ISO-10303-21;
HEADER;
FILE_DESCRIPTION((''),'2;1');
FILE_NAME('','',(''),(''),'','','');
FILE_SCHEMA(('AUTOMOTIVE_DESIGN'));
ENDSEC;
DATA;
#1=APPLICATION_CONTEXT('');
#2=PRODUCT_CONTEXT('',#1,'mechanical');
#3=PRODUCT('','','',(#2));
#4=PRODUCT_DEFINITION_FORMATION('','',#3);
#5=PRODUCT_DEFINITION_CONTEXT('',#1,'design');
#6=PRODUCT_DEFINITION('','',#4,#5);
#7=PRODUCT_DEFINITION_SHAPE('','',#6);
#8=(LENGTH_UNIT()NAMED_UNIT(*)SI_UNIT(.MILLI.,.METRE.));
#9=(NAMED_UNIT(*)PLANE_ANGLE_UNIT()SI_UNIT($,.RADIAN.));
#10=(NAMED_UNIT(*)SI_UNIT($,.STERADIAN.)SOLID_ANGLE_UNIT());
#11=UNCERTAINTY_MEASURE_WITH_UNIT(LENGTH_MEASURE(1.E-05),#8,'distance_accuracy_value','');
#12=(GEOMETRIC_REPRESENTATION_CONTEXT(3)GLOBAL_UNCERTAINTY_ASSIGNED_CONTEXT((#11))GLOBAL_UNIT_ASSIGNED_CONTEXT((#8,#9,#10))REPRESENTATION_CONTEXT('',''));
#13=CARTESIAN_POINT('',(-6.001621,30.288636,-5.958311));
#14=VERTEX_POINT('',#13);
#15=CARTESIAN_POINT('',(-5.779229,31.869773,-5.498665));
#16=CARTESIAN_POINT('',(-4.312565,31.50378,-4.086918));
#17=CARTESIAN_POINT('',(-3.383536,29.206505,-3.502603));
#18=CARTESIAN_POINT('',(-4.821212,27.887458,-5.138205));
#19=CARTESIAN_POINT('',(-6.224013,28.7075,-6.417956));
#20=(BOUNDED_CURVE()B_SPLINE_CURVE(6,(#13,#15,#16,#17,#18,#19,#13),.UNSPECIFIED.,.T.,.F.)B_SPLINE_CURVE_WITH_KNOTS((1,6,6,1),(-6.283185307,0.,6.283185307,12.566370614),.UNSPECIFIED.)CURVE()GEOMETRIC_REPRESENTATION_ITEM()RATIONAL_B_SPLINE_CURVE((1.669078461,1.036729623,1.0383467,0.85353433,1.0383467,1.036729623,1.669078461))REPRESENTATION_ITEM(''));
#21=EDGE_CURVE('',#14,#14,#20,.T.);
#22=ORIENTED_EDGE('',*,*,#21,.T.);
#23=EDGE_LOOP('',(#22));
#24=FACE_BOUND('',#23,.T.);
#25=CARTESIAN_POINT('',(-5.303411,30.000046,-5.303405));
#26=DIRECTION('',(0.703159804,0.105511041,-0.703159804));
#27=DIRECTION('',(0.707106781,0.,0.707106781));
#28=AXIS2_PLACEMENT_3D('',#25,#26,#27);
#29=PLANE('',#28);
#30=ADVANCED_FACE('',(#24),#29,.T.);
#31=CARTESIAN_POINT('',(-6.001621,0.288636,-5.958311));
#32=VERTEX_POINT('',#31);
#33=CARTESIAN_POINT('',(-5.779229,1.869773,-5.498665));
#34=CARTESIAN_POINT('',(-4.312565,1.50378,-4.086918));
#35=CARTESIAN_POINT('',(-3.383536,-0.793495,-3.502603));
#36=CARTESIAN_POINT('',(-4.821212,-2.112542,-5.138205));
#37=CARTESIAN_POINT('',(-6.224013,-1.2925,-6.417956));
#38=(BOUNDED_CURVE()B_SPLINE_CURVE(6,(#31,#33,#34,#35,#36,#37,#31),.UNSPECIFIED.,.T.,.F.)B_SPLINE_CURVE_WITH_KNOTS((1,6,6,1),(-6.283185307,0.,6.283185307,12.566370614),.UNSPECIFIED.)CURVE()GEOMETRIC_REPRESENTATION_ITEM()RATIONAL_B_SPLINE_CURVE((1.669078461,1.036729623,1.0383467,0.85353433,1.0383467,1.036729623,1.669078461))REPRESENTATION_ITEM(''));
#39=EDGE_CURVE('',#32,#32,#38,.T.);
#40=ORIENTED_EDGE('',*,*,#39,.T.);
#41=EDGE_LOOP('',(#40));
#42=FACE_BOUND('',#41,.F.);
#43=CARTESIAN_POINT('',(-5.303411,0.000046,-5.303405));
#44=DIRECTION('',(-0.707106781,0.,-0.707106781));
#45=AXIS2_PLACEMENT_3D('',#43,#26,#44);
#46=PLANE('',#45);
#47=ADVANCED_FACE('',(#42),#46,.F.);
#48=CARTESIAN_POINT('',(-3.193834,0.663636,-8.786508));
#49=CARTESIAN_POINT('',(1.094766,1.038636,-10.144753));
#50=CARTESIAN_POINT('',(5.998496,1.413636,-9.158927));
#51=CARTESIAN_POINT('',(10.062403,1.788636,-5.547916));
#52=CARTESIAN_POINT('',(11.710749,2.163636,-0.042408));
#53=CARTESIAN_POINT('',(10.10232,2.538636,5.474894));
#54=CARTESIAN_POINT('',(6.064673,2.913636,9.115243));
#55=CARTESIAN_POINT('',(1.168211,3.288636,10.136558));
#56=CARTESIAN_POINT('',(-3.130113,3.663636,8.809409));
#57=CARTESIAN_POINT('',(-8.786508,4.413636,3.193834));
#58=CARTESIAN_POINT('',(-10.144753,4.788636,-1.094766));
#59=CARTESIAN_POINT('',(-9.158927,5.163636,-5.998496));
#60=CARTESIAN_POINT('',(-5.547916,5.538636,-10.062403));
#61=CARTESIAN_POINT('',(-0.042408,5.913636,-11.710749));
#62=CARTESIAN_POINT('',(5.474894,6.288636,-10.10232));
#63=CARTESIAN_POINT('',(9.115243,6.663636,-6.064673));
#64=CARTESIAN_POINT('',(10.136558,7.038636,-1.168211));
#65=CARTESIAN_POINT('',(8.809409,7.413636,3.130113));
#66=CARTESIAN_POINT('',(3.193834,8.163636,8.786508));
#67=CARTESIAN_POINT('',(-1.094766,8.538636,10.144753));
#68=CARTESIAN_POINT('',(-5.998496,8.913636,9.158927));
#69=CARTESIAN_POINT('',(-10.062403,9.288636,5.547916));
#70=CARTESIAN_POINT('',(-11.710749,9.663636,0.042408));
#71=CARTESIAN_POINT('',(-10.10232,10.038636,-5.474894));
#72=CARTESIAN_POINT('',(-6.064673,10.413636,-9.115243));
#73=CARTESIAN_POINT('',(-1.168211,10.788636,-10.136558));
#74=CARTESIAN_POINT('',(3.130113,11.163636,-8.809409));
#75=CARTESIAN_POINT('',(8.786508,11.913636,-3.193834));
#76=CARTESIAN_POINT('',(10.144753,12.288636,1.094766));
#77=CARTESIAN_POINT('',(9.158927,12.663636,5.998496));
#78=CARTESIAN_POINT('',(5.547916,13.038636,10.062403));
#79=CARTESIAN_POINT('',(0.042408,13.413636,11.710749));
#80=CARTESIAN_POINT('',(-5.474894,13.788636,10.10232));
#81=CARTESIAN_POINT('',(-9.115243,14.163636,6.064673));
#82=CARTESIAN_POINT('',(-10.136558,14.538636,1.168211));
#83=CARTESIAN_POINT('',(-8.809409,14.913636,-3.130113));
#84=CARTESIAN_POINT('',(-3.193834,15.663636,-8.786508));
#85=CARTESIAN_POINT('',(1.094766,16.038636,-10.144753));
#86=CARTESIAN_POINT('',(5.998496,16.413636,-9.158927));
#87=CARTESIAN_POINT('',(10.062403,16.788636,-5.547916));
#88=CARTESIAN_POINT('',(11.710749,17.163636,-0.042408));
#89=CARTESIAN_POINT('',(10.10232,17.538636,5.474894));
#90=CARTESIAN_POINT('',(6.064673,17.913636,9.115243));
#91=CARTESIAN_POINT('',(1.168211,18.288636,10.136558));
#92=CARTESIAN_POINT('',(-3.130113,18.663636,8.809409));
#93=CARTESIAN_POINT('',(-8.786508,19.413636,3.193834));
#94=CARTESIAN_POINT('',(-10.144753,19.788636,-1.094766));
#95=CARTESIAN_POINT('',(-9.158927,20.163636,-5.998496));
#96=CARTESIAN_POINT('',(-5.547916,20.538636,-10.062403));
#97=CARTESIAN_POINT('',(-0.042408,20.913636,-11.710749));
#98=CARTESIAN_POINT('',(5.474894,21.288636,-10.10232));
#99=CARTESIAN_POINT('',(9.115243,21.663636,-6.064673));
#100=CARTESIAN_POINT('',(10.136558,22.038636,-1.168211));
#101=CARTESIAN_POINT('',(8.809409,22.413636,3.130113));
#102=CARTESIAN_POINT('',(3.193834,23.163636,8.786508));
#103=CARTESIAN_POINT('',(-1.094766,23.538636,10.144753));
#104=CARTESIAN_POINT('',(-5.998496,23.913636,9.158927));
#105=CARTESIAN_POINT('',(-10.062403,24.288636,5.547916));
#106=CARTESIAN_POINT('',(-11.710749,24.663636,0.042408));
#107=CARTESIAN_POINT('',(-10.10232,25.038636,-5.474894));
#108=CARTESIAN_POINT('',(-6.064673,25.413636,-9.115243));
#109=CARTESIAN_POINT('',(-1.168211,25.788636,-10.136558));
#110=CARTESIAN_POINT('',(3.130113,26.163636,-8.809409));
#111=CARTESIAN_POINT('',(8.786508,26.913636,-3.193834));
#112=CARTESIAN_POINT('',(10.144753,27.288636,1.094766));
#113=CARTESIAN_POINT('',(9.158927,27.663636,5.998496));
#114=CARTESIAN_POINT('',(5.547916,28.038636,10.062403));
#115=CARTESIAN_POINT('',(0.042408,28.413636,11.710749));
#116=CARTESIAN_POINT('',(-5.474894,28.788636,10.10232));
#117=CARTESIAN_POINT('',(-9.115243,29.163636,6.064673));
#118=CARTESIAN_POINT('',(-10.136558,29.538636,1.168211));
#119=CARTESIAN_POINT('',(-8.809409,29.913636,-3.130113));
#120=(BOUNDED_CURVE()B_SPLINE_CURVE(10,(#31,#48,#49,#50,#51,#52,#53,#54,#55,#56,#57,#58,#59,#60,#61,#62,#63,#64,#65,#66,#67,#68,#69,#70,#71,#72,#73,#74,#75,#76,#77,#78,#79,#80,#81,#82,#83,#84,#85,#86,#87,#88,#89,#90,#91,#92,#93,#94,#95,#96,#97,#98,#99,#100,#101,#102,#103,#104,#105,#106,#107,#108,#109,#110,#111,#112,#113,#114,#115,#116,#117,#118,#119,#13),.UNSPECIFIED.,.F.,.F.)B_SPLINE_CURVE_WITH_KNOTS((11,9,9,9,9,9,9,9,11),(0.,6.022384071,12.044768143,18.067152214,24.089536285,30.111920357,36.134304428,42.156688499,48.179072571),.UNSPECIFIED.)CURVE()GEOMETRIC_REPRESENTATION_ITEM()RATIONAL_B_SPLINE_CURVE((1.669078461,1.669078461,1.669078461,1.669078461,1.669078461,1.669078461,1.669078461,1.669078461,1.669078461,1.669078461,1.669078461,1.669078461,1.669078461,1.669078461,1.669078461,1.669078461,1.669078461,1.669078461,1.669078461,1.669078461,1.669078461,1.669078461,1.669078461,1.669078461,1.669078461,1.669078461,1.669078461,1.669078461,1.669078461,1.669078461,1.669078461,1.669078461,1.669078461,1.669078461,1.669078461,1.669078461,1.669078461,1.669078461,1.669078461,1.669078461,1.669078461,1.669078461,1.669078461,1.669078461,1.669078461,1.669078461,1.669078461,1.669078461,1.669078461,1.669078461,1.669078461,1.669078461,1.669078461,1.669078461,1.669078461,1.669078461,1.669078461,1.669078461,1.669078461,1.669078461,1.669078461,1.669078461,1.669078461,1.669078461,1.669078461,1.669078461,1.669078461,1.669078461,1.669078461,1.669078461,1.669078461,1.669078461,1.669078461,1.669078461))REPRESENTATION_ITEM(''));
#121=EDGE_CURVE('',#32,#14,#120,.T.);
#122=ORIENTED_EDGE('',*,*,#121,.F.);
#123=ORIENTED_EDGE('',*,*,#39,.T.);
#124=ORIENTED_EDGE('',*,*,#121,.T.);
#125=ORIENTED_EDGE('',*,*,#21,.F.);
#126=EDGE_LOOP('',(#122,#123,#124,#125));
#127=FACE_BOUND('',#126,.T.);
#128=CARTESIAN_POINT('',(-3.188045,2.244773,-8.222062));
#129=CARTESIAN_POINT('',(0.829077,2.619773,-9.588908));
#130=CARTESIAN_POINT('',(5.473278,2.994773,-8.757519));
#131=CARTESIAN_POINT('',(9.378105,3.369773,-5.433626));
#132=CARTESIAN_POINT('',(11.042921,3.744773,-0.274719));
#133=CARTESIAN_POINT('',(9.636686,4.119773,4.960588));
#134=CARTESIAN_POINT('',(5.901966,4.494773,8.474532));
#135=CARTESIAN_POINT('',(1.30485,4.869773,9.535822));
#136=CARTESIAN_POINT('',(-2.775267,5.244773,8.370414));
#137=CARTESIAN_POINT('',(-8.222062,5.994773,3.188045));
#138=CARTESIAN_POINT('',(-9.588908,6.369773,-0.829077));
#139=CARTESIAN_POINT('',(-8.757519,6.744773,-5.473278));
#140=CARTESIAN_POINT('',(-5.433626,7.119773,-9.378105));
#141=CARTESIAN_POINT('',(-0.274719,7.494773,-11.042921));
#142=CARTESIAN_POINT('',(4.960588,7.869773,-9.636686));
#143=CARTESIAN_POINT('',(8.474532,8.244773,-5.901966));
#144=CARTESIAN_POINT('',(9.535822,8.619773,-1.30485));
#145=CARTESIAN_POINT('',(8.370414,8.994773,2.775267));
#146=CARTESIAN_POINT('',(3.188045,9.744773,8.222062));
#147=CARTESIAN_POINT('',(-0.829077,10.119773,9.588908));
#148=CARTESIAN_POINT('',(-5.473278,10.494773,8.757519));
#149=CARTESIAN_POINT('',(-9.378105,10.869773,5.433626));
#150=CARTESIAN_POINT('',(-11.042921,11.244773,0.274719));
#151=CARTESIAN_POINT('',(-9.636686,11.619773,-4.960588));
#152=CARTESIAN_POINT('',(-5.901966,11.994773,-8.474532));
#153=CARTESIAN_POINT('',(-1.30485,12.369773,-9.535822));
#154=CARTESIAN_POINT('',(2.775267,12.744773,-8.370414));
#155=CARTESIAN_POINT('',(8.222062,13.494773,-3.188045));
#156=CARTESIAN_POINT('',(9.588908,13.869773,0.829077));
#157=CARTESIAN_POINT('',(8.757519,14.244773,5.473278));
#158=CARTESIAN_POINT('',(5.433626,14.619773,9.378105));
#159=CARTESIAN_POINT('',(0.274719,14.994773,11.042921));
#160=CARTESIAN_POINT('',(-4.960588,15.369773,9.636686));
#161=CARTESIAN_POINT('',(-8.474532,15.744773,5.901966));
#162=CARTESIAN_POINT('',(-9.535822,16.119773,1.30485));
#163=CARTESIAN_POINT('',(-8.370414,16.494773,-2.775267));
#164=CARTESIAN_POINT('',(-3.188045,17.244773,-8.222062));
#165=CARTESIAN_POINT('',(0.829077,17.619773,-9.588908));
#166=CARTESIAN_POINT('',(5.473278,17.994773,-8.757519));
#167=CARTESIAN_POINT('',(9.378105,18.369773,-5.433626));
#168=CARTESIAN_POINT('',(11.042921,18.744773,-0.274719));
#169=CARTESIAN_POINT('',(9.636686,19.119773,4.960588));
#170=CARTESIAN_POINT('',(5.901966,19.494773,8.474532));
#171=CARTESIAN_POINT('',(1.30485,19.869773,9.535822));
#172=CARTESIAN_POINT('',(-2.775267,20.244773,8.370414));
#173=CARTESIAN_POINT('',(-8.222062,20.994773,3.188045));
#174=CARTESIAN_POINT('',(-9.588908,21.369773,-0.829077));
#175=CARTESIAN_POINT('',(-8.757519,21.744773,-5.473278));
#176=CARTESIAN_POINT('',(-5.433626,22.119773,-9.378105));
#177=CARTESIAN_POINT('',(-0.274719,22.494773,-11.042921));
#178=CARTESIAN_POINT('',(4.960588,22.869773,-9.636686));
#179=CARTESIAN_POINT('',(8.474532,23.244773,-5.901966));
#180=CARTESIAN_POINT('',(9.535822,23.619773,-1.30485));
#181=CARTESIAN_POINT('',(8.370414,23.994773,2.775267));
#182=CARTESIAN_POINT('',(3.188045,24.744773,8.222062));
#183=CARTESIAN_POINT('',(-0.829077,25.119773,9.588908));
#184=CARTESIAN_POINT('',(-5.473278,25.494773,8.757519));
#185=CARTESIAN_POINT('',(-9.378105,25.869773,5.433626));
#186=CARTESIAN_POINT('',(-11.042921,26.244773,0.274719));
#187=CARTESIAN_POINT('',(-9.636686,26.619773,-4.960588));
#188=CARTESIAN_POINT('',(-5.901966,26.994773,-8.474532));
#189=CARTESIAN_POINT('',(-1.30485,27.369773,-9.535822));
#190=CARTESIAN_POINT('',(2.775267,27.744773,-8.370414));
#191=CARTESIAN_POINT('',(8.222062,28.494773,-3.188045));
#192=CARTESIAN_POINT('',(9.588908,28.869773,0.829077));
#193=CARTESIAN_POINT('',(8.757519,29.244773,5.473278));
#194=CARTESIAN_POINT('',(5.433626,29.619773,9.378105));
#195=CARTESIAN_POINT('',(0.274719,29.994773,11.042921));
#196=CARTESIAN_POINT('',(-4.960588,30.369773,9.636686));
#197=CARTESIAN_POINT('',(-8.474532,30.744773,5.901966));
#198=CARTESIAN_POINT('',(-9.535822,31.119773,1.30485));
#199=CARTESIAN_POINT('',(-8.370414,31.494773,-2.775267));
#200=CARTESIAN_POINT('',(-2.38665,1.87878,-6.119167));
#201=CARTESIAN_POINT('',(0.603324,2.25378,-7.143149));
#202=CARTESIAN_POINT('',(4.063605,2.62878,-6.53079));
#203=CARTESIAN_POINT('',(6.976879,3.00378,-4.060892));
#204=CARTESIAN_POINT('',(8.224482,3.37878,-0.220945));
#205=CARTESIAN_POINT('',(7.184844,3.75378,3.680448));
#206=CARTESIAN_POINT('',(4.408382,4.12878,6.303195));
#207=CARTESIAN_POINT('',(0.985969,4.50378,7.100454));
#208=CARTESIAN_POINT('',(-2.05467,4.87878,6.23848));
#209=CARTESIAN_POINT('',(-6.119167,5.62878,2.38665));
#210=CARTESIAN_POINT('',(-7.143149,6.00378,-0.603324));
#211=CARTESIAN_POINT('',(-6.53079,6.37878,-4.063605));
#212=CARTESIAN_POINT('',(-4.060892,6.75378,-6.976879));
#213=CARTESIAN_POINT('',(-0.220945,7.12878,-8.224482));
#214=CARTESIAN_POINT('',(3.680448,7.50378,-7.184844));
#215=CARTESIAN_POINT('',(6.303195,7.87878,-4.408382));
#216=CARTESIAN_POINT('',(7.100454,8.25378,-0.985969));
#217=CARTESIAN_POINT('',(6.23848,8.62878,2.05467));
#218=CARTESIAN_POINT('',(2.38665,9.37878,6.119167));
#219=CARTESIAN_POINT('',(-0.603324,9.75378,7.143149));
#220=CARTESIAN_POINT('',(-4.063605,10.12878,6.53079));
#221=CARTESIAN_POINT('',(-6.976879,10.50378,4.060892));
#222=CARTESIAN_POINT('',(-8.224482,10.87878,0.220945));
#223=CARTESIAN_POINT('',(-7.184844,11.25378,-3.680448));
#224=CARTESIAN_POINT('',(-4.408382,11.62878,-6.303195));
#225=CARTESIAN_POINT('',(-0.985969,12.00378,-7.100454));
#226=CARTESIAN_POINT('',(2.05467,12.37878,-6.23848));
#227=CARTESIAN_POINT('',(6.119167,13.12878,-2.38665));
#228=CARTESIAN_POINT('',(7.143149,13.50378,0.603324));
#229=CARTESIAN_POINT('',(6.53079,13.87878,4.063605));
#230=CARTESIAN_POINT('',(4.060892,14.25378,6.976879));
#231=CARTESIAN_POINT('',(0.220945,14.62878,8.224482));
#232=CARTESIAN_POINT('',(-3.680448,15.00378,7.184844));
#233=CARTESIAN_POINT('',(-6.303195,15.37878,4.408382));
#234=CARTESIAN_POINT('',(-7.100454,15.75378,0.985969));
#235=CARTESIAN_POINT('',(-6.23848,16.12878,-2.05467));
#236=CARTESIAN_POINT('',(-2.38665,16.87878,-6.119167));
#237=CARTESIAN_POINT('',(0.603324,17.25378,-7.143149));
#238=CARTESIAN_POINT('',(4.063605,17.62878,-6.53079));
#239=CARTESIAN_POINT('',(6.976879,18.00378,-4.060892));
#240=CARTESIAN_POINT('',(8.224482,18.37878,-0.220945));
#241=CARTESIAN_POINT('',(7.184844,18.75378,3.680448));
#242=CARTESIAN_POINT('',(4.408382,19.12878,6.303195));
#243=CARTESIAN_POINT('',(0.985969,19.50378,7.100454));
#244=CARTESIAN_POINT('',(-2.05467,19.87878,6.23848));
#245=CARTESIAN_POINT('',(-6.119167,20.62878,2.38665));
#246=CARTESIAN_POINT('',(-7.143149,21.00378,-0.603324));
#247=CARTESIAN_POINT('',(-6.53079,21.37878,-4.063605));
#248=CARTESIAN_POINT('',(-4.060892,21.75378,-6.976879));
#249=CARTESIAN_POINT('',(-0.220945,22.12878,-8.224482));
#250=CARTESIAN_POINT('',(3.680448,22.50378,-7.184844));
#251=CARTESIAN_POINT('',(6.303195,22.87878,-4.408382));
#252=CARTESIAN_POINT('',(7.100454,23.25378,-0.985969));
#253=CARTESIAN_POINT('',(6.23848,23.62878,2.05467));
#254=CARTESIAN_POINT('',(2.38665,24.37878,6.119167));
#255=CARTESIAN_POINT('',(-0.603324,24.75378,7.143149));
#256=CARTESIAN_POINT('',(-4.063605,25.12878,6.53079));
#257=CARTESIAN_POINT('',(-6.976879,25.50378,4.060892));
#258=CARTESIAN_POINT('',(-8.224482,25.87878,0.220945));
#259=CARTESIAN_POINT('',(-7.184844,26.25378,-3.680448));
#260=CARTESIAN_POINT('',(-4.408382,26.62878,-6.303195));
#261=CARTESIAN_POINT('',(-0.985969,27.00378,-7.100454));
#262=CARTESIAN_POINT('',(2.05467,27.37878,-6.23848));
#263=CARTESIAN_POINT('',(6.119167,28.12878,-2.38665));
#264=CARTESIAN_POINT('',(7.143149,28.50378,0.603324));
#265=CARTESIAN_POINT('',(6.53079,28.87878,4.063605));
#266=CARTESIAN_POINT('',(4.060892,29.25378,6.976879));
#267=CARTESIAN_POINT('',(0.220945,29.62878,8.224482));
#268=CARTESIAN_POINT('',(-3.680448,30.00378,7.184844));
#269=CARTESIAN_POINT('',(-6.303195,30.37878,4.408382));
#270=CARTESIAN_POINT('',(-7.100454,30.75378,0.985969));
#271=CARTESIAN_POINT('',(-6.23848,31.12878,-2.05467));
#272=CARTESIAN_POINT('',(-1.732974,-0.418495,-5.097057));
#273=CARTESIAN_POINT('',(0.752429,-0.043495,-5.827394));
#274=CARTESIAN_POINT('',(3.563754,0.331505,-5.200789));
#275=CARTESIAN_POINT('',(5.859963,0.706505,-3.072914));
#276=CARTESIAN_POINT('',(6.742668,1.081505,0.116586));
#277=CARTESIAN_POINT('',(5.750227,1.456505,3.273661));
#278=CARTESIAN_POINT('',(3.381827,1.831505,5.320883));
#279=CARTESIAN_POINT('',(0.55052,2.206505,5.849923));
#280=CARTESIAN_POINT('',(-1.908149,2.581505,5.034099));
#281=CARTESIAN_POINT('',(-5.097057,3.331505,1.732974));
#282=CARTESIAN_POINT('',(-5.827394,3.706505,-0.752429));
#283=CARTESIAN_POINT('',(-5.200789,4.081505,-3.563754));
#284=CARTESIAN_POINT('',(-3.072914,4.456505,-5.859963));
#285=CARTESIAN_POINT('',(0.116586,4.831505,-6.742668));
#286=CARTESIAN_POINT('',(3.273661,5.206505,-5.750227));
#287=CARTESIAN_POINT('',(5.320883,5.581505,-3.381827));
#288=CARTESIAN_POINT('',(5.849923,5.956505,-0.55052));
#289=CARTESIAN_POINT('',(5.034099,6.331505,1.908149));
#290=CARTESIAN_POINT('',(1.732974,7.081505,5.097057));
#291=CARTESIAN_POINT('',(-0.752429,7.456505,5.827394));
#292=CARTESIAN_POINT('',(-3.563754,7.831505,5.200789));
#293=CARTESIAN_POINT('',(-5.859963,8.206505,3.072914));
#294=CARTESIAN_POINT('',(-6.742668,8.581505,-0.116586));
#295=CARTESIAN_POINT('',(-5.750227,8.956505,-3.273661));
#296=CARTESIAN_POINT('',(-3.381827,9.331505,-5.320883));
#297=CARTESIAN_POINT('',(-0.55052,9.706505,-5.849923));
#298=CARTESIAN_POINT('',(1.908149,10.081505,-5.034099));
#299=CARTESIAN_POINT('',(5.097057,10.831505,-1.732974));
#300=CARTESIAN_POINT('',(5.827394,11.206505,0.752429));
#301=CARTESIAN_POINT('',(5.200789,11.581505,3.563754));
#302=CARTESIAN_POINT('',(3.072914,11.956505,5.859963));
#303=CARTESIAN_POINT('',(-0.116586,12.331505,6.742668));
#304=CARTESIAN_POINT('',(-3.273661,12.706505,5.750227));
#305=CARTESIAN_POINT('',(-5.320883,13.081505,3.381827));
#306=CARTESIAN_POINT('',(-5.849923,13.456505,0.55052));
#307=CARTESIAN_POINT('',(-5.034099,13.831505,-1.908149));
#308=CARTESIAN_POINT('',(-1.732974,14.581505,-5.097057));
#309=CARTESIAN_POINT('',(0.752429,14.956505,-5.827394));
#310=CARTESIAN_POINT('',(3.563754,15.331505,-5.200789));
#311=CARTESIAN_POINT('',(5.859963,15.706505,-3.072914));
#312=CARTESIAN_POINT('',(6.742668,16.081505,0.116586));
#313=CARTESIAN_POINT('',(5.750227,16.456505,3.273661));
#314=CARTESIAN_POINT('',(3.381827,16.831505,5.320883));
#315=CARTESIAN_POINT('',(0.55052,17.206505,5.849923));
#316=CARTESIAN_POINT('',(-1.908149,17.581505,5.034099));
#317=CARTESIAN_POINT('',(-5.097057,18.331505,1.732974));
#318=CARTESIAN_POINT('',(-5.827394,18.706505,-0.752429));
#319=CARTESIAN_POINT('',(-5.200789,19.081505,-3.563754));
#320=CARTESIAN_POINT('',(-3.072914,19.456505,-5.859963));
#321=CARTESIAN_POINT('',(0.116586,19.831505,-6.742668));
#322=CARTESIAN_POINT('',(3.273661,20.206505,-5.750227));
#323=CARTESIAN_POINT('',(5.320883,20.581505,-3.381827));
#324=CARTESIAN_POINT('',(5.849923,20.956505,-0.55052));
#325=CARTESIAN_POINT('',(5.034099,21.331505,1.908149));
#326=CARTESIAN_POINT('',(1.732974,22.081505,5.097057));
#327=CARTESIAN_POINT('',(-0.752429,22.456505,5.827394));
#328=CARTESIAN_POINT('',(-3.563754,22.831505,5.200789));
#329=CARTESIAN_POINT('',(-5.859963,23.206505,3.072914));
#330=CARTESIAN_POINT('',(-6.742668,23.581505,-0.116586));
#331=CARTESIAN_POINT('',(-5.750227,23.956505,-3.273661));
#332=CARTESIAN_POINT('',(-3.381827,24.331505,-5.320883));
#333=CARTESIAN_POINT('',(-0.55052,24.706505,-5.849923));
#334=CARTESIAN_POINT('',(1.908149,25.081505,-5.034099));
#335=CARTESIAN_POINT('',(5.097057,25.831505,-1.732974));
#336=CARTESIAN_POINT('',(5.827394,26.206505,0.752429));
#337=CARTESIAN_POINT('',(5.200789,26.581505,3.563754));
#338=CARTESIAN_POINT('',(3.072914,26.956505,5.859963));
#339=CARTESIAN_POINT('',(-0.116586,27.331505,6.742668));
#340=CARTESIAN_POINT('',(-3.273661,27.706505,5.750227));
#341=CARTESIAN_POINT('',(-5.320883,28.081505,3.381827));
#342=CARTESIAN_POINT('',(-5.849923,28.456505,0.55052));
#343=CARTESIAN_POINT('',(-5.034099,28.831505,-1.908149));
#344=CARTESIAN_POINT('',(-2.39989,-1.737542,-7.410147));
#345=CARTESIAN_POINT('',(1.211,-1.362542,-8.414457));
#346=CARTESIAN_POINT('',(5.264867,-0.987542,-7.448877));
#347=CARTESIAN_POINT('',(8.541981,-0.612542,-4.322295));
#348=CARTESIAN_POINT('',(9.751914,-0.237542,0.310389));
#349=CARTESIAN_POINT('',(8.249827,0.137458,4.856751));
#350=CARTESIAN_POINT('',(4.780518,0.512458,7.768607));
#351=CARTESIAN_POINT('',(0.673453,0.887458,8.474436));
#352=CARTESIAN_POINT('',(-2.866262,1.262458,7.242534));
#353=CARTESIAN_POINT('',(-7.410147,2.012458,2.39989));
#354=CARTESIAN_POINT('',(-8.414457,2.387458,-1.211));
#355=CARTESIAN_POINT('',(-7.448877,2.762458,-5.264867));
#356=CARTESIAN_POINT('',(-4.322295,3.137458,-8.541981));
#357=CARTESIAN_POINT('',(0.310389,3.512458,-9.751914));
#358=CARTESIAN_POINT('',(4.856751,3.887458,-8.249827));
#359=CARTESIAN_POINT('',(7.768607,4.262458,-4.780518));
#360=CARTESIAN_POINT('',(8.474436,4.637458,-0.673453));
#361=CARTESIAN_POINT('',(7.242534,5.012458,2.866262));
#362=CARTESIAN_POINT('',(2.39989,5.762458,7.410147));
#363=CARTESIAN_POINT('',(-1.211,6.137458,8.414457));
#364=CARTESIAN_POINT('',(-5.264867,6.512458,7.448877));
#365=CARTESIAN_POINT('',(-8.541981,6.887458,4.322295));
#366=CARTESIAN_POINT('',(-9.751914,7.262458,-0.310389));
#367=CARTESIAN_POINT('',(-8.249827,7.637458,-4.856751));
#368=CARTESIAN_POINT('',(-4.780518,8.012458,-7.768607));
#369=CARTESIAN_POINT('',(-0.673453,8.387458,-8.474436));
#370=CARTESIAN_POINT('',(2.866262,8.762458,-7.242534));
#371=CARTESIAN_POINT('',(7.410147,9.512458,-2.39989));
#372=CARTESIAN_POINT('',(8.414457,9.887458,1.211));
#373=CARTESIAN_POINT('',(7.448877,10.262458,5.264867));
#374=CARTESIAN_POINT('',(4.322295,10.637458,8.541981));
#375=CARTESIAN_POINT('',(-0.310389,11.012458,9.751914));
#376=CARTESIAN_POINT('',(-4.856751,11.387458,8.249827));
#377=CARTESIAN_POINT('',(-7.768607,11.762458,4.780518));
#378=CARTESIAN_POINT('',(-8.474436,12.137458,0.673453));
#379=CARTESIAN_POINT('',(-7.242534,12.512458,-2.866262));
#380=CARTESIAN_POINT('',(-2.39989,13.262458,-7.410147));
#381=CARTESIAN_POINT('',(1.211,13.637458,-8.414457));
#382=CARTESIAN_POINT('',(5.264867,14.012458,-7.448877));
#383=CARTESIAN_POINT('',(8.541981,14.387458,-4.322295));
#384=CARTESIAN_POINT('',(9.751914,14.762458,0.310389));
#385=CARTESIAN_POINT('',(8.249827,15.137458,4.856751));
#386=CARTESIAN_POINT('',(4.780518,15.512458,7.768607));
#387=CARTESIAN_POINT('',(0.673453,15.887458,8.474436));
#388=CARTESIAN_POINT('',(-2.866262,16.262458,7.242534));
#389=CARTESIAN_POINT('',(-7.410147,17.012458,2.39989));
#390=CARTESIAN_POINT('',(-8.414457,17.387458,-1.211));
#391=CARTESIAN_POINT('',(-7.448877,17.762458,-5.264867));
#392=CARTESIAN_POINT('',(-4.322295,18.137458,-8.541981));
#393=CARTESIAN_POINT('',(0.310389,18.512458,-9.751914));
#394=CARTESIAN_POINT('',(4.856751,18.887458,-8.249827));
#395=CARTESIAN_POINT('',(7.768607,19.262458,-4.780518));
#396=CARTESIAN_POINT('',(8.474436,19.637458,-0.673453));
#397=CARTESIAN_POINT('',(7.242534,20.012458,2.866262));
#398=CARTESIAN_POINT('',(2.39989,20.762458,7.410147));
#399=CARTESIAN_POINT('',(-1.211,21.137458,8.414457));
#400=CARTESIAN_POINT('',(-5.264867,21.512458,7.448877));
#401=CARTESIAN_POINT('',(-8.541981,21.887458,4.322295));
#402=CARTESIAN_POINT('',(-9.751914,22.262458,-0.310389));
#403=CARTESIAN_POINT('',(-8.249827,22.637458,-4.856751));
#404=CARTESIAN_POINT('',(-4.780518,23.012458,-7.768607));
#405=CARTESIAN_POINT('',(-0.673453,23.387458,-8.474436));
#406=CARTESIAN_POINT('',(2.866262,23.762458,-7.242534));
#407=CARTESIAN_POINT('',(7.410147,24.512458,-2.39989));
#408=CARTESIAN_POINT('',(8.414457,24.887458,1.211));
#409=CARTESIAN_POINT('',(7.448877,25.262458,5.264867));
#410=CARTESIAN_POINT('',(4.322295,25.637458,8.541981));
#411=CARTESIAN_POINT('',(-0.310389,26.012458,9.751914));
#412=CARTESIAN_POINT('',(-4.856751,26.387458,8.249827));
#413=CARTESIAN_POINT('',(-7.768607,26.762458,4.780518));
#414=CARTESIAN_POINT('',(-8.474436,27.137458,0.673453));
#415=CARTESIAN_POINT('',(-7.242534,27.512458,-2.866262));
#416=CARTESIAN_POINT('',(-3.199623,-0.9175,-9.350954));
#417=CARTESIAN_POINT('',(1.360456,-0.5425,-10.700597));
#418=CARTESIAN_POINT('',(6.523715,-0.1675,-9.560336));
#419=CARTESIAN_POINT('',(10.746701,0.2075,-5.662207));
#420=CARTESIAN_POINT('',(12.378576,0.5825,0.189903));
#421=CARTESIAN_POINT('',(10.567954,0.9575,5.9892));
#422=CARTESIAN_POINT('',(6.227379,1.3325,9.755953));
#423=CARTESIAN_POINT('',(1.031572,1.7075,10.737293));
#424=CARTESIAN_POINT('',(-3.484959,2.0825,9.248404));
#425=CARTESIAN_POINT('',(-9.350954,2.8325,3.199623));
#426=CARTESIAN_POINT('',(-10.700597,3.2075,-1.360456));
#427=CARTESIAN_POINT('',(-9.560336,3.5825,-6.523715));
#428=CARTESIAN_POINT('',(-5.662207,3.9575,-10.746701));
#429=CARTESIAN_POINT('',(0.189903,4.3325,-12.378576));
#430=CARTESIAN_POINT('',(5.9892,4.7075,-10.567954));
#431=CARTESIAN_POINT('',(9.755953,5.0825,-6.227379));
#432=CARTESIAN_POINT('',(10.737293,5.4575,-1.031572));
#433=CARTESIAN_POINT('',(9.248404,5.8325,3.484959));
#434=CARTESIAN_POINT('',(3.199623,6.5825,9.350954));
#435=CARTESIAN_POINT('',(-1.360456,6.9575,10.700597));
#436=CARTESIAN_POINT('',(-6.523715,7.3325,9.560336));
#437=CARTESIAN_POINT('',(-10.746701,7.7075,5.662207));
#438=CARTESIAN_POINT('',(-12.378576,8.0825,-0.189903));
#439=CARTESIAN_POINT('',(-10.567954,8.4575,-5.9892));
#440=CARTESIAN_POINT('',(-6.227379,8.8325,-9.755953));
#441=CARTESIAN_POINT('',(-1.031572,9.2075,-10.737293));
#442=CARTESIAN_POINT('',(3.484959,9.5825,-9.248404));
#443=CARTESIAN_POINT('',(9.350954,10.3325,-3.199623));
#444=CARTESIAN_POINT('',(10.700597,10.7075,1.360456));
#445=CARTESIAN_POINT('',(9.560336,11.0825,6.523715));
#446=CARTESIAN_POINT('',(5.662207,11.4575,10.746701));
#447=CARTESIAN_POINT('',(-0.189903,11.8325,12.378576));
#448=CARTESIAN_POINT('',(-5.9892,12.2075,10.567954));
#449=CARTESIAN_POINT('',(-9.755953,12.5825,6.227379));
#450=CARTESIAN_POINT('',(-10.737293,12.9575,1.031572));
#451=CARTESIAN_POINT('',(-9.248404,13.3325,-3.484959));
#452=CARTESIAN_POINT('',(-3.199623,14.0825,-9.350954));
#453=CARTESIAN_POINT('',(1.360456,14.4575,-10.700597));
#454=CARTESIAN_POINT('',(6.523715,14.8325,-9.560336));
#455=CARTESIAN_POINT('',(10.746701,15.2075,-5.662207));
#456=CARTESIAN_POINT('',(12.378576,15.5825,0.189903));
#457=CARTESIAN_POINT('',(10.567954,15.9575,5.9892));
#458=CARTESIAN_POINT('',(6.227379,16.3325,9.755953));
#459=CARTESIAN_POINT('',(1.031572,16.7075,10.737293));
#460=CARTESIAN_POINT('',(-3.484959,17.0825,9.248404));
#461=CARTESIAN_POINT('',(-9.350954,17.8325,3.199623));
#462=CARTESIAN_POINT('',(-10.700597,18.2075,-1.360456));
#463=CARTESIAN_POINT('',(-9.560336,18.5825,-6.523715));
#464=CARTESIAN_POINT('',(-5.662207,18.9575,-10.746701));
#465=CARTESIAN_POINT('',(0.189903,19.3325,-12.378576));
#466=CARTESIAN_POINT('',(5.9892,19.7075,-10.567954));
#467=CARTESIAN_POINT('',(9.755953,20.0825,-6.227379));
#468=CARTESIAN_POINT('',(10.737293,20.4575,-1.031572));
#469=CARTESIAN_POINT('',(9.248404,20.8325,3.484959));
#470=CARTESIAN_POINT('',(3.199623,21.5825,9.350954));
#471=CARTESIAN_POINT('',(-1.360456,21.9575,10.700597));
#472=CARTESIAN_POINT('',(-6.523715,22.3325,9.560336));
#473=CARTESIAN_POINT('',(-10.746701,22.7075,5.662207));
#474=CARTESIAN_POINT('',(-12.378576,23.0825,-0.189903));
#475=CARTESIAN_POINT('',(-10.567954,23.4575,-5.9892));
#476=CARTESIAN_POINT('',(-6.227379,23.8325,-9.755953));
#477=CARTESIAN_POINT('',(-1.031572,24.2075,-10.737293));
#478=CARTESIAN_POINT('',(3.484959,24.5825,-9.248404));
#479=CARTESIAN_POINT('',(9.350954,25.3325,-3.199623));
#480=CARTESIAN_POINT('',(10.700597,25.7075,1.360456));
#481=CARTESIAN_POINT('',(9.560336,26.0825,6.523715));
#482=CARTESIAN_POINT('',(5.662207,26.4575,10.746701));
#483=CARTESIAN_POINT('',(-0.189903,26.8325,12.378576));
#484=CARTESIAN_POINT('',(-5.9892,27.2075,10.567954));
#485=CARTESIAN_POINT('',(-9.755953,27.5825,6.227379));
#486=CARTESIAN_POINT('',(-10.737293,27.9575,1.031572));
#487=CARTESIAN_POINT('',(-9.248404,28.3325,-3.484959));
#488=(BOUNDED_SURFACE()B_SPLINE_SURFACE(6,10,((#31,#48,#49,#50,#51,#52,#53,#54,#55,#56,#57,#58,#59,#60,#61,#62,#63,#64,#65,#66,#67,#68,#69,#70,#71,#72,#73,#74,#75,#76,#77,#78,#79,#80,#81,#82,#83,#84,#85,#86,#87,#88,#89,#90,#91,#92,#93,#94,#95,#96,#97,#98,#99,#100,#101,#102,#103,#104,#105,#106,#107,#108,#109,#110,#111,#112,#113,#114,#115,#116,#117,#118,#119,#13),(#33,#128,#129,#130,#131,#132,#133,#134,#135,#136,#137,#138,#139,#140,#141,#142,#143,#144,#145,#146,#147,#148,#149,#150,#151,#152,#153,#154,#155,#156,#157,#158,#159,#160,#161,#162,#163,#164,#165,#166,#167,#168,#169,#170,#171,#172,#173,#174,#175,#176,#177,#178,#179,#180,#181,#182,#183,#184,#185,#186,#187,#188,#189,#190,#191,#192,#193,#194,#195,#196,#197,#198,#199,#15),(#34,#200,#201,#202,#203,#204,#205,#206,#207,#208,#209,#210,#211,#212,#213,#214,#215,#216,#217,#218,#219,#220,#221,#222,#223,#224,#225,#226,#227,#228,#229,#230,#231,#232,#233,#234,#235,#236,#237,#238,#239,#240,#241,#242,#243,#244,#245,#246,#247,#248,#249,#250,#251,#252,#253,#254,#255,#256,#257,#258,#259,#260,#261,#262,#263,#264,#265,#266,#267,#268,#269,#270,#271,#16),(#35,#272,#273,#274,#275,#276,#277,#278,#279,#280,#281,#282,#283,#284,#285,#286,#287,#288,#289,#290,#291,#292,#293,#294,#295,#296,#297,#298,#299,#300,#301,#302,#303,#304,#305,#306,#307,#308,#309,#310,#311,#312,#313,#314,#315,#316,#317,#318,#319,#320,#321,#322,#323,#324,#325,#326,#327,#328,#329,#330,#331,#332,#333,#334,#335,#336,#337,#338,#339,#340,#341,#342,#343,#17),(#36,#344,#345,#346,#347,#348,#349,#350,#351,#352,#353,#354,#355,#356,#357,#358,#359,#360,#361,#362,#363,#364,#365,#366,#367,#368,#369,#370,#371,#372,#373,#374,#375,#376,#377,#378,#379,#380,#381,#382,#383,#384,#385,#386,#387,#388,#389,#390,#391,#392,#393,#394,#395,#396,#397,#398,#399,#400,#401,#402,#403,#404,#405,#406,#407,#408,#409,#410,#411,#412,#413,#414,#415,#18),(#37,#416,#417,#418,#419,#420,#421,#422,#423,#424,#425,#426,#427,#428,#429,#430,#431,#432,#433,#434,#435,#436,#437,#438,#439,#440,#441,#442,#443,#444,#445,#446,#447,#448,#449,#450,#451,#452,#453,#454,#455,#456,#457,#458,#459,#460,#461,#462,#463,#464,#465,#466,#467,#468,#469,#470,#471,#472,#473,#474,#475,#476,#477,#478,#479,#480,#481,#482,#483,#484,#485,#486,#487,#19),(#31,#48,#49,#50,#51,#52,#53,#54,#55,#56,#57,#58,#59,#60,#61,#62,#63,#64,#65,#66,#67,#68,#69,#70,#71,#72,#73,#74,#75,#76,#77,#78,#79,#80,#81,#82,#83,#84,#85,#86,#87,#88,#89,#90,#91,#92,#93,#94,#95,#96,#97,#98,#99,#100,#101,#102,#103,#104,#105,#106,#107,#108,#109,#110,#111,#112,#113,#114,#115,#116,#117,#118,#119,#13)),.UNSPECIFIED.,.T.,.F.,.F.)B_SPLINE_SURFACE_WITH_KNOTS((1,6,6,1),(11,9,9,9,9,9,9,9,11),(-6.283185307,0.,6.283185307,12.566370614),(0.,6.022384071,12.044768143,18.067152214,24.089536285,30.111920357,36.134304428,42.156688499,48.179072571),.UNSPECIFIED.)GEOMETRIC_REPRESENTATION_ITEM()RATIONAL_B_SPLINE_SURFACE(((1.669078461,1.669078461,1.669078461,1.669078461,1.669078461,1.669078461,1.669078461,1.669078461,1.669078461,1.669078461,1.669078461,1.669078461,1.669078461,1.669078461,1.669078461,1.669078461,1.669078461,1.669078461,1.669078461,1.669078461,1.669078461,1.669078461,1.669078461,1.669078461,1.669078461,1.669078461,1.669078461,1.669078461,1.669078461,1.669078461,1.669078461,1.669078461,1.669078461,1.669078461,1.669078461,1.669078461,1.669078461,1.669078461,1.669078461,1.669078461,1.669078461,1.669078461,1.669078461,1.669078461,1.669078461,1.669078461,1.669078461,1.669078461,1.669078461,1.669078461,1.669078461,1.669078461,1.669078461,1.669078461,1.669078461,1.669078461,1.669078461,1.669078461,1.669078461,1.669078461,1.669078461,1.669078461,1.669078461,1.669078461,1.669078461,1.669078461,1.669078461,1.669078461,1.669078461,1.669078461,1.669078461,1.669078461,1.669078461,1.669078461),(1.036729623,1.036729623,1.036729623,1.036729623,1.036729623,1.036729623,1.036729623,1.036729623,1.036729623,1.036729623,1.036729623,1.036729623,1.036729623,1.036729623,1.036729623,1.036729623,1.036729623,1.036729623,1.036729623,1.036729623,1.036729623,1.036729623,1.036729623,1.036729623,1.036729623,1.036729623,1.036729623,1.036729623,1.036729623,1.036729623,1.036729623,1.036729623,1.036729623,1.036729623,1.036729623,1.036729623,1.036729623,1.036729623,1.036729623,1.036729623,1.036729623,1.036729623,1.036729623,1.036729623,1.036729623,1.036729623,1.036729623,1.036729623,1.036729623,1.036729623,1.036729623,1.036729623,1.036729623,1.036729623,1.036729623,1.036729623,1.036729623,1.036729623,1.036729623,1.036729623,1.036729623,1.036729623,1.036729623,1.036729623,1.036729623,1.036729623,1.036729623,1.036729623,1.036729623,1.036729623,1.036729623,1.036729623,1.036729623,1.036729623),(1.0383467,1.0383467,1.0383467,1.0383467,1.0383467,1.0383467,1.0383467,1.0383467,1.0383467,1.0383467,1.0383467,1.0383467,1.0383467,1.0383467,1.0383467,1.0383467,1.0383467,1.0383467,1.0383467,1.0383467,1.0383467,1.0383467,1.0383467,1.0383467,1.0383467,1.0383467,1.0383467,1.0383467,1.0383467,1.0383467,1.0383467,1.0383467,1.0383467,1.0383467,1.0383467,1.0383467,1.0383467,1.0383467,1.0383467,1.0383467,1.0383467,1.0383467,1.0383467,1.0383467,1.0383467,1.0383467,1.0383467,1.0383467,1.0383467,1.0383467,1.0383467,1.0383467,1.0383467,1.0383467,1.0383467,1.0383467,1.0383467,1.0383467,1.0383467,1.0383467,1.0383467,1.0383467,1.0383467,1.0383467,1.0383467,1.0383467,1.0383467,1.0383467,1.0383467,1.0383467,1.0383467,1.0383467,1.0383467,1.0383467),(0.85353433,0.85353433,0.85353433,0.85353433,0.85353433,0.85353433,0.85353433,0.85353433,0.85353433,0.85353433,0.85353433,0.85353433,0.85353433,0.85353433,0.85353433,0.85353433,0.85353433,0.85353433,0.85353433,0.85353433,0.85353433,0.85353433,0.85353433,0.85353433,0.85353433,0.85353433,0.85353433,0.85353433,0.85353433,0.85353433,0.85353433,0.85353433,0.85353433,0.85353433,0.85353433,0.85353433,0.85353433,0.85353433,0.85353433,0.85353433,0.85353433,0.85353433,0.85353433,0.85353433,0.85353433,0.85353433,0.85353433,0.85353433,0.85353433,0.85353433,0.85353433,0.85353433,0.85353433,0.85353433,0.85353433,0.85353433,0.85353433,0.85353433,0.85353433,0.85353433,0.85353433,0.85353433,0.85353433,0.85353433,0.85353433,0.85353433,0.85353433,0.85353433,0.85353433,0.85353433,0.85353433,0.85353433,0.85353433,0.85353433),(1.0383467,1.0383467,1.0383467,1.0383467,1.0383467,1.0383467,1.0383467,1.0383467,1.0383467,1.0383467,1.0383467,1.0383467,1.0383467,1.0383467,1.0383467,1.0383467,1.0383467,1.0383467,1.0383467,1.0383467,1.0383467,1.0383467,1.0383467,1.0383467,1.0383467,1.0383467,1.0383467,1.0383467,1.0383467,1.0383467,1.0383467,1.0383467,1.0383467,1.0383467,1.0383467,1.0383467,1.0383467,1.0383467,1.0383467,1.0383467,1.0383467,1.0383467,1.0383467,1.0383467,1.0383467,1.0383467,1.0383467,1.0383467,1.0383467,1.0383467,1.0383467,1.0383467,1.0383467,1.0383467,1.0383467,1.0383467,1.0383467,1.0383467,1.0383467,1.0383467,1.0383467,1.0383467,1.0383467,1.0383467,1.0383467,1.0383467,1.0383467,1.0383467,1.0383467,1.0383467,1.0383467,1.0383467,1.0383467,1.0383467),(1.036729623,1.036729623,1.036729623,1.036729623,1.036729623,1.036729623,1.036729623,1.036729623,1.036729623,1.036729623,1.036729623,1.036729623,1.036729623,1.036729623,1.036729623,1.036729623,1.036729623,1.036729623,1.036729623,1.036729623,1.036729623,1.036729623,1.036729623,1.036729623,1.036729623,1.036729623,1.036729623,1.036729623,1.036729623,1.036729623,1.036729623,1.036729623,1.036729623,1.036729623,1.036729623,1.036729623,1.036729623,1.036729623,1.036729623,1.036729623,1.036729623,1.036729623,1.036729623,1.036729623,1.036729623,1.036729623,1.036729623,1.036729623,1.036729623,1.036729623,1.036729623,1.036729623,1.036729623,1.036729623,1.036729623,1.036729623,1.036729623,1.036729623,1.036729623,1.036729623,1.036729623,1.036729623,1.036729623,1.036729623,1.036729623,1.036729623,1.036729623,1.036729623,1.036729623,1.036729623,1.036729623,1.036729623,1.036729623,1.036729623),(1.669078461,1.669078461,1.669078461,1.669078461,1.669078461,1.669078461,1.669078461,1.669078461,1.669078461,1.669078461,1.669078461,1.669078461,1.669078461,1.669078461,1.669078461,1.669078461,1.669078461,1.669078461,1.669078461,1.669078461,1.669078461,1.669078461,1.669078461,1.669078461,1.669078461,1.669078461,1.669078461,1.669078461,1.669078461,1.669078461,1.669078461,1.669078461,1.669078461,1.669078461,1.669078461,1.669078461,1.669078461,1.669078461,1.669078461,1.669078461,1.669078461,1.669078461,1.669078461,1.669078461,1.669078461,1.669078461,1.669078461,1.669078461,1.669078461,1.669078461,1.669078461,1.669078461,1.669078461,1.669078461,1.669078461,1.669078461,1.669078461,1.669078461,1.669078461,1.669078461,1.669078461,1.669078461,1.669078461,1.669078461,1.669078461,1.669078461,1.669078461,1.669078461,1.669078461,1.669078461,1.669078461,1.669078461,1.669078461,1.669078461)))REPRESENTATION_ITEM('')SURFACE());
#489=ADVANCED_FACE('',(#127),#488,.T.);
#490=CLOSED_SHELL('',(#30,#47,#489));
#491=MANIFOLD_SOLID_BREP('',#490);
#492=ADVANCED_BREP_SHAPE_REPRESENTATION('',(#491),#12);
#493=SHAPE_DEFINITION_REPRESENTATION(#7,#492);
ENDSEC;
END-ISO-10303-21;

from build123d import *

# Parameters (mm, degrees)
SWEEP_1_PITCH       = 5
SWEEP_1_HEIGHT      = 30
SWEEP_1_RADIUS      = 7.5
SWEEP_1_START_ANGLE = -135
SKETCH_2_R          = 1


with BuildPart() as part:
    # 扫描1: sweep along a helix
    with BuildLine() as sweep_1_path:
        add(Helix(SWEEP_1_PITCH, SWEEP_1_HEIGHT, SWEEP_1_RADIUS, center=(0, 0, 0), direction=(0, 1, 0), lefthand=True, mode=Mode.PRIVATE).rotate(Axis((0, 0, 0), (0, 1, 0)), SWEEP_1_START_ANGLE))
    # 草图2 → 扫描1 (sweep)
    with BuildSketch(Plane(origin=(-5.303300859, 0, -5.303300859), x_dir=(-0.698320384233244, 0.2886362755737767, -0.6550097261775838), z_dir=(0.703159804126733, 0.10551104075352286, -0.7031598041267455))):
        Circle(SKETCH_2_R)
    sweep(path=sweep_1_path.line, is_frenet=True)


solid = part.part
